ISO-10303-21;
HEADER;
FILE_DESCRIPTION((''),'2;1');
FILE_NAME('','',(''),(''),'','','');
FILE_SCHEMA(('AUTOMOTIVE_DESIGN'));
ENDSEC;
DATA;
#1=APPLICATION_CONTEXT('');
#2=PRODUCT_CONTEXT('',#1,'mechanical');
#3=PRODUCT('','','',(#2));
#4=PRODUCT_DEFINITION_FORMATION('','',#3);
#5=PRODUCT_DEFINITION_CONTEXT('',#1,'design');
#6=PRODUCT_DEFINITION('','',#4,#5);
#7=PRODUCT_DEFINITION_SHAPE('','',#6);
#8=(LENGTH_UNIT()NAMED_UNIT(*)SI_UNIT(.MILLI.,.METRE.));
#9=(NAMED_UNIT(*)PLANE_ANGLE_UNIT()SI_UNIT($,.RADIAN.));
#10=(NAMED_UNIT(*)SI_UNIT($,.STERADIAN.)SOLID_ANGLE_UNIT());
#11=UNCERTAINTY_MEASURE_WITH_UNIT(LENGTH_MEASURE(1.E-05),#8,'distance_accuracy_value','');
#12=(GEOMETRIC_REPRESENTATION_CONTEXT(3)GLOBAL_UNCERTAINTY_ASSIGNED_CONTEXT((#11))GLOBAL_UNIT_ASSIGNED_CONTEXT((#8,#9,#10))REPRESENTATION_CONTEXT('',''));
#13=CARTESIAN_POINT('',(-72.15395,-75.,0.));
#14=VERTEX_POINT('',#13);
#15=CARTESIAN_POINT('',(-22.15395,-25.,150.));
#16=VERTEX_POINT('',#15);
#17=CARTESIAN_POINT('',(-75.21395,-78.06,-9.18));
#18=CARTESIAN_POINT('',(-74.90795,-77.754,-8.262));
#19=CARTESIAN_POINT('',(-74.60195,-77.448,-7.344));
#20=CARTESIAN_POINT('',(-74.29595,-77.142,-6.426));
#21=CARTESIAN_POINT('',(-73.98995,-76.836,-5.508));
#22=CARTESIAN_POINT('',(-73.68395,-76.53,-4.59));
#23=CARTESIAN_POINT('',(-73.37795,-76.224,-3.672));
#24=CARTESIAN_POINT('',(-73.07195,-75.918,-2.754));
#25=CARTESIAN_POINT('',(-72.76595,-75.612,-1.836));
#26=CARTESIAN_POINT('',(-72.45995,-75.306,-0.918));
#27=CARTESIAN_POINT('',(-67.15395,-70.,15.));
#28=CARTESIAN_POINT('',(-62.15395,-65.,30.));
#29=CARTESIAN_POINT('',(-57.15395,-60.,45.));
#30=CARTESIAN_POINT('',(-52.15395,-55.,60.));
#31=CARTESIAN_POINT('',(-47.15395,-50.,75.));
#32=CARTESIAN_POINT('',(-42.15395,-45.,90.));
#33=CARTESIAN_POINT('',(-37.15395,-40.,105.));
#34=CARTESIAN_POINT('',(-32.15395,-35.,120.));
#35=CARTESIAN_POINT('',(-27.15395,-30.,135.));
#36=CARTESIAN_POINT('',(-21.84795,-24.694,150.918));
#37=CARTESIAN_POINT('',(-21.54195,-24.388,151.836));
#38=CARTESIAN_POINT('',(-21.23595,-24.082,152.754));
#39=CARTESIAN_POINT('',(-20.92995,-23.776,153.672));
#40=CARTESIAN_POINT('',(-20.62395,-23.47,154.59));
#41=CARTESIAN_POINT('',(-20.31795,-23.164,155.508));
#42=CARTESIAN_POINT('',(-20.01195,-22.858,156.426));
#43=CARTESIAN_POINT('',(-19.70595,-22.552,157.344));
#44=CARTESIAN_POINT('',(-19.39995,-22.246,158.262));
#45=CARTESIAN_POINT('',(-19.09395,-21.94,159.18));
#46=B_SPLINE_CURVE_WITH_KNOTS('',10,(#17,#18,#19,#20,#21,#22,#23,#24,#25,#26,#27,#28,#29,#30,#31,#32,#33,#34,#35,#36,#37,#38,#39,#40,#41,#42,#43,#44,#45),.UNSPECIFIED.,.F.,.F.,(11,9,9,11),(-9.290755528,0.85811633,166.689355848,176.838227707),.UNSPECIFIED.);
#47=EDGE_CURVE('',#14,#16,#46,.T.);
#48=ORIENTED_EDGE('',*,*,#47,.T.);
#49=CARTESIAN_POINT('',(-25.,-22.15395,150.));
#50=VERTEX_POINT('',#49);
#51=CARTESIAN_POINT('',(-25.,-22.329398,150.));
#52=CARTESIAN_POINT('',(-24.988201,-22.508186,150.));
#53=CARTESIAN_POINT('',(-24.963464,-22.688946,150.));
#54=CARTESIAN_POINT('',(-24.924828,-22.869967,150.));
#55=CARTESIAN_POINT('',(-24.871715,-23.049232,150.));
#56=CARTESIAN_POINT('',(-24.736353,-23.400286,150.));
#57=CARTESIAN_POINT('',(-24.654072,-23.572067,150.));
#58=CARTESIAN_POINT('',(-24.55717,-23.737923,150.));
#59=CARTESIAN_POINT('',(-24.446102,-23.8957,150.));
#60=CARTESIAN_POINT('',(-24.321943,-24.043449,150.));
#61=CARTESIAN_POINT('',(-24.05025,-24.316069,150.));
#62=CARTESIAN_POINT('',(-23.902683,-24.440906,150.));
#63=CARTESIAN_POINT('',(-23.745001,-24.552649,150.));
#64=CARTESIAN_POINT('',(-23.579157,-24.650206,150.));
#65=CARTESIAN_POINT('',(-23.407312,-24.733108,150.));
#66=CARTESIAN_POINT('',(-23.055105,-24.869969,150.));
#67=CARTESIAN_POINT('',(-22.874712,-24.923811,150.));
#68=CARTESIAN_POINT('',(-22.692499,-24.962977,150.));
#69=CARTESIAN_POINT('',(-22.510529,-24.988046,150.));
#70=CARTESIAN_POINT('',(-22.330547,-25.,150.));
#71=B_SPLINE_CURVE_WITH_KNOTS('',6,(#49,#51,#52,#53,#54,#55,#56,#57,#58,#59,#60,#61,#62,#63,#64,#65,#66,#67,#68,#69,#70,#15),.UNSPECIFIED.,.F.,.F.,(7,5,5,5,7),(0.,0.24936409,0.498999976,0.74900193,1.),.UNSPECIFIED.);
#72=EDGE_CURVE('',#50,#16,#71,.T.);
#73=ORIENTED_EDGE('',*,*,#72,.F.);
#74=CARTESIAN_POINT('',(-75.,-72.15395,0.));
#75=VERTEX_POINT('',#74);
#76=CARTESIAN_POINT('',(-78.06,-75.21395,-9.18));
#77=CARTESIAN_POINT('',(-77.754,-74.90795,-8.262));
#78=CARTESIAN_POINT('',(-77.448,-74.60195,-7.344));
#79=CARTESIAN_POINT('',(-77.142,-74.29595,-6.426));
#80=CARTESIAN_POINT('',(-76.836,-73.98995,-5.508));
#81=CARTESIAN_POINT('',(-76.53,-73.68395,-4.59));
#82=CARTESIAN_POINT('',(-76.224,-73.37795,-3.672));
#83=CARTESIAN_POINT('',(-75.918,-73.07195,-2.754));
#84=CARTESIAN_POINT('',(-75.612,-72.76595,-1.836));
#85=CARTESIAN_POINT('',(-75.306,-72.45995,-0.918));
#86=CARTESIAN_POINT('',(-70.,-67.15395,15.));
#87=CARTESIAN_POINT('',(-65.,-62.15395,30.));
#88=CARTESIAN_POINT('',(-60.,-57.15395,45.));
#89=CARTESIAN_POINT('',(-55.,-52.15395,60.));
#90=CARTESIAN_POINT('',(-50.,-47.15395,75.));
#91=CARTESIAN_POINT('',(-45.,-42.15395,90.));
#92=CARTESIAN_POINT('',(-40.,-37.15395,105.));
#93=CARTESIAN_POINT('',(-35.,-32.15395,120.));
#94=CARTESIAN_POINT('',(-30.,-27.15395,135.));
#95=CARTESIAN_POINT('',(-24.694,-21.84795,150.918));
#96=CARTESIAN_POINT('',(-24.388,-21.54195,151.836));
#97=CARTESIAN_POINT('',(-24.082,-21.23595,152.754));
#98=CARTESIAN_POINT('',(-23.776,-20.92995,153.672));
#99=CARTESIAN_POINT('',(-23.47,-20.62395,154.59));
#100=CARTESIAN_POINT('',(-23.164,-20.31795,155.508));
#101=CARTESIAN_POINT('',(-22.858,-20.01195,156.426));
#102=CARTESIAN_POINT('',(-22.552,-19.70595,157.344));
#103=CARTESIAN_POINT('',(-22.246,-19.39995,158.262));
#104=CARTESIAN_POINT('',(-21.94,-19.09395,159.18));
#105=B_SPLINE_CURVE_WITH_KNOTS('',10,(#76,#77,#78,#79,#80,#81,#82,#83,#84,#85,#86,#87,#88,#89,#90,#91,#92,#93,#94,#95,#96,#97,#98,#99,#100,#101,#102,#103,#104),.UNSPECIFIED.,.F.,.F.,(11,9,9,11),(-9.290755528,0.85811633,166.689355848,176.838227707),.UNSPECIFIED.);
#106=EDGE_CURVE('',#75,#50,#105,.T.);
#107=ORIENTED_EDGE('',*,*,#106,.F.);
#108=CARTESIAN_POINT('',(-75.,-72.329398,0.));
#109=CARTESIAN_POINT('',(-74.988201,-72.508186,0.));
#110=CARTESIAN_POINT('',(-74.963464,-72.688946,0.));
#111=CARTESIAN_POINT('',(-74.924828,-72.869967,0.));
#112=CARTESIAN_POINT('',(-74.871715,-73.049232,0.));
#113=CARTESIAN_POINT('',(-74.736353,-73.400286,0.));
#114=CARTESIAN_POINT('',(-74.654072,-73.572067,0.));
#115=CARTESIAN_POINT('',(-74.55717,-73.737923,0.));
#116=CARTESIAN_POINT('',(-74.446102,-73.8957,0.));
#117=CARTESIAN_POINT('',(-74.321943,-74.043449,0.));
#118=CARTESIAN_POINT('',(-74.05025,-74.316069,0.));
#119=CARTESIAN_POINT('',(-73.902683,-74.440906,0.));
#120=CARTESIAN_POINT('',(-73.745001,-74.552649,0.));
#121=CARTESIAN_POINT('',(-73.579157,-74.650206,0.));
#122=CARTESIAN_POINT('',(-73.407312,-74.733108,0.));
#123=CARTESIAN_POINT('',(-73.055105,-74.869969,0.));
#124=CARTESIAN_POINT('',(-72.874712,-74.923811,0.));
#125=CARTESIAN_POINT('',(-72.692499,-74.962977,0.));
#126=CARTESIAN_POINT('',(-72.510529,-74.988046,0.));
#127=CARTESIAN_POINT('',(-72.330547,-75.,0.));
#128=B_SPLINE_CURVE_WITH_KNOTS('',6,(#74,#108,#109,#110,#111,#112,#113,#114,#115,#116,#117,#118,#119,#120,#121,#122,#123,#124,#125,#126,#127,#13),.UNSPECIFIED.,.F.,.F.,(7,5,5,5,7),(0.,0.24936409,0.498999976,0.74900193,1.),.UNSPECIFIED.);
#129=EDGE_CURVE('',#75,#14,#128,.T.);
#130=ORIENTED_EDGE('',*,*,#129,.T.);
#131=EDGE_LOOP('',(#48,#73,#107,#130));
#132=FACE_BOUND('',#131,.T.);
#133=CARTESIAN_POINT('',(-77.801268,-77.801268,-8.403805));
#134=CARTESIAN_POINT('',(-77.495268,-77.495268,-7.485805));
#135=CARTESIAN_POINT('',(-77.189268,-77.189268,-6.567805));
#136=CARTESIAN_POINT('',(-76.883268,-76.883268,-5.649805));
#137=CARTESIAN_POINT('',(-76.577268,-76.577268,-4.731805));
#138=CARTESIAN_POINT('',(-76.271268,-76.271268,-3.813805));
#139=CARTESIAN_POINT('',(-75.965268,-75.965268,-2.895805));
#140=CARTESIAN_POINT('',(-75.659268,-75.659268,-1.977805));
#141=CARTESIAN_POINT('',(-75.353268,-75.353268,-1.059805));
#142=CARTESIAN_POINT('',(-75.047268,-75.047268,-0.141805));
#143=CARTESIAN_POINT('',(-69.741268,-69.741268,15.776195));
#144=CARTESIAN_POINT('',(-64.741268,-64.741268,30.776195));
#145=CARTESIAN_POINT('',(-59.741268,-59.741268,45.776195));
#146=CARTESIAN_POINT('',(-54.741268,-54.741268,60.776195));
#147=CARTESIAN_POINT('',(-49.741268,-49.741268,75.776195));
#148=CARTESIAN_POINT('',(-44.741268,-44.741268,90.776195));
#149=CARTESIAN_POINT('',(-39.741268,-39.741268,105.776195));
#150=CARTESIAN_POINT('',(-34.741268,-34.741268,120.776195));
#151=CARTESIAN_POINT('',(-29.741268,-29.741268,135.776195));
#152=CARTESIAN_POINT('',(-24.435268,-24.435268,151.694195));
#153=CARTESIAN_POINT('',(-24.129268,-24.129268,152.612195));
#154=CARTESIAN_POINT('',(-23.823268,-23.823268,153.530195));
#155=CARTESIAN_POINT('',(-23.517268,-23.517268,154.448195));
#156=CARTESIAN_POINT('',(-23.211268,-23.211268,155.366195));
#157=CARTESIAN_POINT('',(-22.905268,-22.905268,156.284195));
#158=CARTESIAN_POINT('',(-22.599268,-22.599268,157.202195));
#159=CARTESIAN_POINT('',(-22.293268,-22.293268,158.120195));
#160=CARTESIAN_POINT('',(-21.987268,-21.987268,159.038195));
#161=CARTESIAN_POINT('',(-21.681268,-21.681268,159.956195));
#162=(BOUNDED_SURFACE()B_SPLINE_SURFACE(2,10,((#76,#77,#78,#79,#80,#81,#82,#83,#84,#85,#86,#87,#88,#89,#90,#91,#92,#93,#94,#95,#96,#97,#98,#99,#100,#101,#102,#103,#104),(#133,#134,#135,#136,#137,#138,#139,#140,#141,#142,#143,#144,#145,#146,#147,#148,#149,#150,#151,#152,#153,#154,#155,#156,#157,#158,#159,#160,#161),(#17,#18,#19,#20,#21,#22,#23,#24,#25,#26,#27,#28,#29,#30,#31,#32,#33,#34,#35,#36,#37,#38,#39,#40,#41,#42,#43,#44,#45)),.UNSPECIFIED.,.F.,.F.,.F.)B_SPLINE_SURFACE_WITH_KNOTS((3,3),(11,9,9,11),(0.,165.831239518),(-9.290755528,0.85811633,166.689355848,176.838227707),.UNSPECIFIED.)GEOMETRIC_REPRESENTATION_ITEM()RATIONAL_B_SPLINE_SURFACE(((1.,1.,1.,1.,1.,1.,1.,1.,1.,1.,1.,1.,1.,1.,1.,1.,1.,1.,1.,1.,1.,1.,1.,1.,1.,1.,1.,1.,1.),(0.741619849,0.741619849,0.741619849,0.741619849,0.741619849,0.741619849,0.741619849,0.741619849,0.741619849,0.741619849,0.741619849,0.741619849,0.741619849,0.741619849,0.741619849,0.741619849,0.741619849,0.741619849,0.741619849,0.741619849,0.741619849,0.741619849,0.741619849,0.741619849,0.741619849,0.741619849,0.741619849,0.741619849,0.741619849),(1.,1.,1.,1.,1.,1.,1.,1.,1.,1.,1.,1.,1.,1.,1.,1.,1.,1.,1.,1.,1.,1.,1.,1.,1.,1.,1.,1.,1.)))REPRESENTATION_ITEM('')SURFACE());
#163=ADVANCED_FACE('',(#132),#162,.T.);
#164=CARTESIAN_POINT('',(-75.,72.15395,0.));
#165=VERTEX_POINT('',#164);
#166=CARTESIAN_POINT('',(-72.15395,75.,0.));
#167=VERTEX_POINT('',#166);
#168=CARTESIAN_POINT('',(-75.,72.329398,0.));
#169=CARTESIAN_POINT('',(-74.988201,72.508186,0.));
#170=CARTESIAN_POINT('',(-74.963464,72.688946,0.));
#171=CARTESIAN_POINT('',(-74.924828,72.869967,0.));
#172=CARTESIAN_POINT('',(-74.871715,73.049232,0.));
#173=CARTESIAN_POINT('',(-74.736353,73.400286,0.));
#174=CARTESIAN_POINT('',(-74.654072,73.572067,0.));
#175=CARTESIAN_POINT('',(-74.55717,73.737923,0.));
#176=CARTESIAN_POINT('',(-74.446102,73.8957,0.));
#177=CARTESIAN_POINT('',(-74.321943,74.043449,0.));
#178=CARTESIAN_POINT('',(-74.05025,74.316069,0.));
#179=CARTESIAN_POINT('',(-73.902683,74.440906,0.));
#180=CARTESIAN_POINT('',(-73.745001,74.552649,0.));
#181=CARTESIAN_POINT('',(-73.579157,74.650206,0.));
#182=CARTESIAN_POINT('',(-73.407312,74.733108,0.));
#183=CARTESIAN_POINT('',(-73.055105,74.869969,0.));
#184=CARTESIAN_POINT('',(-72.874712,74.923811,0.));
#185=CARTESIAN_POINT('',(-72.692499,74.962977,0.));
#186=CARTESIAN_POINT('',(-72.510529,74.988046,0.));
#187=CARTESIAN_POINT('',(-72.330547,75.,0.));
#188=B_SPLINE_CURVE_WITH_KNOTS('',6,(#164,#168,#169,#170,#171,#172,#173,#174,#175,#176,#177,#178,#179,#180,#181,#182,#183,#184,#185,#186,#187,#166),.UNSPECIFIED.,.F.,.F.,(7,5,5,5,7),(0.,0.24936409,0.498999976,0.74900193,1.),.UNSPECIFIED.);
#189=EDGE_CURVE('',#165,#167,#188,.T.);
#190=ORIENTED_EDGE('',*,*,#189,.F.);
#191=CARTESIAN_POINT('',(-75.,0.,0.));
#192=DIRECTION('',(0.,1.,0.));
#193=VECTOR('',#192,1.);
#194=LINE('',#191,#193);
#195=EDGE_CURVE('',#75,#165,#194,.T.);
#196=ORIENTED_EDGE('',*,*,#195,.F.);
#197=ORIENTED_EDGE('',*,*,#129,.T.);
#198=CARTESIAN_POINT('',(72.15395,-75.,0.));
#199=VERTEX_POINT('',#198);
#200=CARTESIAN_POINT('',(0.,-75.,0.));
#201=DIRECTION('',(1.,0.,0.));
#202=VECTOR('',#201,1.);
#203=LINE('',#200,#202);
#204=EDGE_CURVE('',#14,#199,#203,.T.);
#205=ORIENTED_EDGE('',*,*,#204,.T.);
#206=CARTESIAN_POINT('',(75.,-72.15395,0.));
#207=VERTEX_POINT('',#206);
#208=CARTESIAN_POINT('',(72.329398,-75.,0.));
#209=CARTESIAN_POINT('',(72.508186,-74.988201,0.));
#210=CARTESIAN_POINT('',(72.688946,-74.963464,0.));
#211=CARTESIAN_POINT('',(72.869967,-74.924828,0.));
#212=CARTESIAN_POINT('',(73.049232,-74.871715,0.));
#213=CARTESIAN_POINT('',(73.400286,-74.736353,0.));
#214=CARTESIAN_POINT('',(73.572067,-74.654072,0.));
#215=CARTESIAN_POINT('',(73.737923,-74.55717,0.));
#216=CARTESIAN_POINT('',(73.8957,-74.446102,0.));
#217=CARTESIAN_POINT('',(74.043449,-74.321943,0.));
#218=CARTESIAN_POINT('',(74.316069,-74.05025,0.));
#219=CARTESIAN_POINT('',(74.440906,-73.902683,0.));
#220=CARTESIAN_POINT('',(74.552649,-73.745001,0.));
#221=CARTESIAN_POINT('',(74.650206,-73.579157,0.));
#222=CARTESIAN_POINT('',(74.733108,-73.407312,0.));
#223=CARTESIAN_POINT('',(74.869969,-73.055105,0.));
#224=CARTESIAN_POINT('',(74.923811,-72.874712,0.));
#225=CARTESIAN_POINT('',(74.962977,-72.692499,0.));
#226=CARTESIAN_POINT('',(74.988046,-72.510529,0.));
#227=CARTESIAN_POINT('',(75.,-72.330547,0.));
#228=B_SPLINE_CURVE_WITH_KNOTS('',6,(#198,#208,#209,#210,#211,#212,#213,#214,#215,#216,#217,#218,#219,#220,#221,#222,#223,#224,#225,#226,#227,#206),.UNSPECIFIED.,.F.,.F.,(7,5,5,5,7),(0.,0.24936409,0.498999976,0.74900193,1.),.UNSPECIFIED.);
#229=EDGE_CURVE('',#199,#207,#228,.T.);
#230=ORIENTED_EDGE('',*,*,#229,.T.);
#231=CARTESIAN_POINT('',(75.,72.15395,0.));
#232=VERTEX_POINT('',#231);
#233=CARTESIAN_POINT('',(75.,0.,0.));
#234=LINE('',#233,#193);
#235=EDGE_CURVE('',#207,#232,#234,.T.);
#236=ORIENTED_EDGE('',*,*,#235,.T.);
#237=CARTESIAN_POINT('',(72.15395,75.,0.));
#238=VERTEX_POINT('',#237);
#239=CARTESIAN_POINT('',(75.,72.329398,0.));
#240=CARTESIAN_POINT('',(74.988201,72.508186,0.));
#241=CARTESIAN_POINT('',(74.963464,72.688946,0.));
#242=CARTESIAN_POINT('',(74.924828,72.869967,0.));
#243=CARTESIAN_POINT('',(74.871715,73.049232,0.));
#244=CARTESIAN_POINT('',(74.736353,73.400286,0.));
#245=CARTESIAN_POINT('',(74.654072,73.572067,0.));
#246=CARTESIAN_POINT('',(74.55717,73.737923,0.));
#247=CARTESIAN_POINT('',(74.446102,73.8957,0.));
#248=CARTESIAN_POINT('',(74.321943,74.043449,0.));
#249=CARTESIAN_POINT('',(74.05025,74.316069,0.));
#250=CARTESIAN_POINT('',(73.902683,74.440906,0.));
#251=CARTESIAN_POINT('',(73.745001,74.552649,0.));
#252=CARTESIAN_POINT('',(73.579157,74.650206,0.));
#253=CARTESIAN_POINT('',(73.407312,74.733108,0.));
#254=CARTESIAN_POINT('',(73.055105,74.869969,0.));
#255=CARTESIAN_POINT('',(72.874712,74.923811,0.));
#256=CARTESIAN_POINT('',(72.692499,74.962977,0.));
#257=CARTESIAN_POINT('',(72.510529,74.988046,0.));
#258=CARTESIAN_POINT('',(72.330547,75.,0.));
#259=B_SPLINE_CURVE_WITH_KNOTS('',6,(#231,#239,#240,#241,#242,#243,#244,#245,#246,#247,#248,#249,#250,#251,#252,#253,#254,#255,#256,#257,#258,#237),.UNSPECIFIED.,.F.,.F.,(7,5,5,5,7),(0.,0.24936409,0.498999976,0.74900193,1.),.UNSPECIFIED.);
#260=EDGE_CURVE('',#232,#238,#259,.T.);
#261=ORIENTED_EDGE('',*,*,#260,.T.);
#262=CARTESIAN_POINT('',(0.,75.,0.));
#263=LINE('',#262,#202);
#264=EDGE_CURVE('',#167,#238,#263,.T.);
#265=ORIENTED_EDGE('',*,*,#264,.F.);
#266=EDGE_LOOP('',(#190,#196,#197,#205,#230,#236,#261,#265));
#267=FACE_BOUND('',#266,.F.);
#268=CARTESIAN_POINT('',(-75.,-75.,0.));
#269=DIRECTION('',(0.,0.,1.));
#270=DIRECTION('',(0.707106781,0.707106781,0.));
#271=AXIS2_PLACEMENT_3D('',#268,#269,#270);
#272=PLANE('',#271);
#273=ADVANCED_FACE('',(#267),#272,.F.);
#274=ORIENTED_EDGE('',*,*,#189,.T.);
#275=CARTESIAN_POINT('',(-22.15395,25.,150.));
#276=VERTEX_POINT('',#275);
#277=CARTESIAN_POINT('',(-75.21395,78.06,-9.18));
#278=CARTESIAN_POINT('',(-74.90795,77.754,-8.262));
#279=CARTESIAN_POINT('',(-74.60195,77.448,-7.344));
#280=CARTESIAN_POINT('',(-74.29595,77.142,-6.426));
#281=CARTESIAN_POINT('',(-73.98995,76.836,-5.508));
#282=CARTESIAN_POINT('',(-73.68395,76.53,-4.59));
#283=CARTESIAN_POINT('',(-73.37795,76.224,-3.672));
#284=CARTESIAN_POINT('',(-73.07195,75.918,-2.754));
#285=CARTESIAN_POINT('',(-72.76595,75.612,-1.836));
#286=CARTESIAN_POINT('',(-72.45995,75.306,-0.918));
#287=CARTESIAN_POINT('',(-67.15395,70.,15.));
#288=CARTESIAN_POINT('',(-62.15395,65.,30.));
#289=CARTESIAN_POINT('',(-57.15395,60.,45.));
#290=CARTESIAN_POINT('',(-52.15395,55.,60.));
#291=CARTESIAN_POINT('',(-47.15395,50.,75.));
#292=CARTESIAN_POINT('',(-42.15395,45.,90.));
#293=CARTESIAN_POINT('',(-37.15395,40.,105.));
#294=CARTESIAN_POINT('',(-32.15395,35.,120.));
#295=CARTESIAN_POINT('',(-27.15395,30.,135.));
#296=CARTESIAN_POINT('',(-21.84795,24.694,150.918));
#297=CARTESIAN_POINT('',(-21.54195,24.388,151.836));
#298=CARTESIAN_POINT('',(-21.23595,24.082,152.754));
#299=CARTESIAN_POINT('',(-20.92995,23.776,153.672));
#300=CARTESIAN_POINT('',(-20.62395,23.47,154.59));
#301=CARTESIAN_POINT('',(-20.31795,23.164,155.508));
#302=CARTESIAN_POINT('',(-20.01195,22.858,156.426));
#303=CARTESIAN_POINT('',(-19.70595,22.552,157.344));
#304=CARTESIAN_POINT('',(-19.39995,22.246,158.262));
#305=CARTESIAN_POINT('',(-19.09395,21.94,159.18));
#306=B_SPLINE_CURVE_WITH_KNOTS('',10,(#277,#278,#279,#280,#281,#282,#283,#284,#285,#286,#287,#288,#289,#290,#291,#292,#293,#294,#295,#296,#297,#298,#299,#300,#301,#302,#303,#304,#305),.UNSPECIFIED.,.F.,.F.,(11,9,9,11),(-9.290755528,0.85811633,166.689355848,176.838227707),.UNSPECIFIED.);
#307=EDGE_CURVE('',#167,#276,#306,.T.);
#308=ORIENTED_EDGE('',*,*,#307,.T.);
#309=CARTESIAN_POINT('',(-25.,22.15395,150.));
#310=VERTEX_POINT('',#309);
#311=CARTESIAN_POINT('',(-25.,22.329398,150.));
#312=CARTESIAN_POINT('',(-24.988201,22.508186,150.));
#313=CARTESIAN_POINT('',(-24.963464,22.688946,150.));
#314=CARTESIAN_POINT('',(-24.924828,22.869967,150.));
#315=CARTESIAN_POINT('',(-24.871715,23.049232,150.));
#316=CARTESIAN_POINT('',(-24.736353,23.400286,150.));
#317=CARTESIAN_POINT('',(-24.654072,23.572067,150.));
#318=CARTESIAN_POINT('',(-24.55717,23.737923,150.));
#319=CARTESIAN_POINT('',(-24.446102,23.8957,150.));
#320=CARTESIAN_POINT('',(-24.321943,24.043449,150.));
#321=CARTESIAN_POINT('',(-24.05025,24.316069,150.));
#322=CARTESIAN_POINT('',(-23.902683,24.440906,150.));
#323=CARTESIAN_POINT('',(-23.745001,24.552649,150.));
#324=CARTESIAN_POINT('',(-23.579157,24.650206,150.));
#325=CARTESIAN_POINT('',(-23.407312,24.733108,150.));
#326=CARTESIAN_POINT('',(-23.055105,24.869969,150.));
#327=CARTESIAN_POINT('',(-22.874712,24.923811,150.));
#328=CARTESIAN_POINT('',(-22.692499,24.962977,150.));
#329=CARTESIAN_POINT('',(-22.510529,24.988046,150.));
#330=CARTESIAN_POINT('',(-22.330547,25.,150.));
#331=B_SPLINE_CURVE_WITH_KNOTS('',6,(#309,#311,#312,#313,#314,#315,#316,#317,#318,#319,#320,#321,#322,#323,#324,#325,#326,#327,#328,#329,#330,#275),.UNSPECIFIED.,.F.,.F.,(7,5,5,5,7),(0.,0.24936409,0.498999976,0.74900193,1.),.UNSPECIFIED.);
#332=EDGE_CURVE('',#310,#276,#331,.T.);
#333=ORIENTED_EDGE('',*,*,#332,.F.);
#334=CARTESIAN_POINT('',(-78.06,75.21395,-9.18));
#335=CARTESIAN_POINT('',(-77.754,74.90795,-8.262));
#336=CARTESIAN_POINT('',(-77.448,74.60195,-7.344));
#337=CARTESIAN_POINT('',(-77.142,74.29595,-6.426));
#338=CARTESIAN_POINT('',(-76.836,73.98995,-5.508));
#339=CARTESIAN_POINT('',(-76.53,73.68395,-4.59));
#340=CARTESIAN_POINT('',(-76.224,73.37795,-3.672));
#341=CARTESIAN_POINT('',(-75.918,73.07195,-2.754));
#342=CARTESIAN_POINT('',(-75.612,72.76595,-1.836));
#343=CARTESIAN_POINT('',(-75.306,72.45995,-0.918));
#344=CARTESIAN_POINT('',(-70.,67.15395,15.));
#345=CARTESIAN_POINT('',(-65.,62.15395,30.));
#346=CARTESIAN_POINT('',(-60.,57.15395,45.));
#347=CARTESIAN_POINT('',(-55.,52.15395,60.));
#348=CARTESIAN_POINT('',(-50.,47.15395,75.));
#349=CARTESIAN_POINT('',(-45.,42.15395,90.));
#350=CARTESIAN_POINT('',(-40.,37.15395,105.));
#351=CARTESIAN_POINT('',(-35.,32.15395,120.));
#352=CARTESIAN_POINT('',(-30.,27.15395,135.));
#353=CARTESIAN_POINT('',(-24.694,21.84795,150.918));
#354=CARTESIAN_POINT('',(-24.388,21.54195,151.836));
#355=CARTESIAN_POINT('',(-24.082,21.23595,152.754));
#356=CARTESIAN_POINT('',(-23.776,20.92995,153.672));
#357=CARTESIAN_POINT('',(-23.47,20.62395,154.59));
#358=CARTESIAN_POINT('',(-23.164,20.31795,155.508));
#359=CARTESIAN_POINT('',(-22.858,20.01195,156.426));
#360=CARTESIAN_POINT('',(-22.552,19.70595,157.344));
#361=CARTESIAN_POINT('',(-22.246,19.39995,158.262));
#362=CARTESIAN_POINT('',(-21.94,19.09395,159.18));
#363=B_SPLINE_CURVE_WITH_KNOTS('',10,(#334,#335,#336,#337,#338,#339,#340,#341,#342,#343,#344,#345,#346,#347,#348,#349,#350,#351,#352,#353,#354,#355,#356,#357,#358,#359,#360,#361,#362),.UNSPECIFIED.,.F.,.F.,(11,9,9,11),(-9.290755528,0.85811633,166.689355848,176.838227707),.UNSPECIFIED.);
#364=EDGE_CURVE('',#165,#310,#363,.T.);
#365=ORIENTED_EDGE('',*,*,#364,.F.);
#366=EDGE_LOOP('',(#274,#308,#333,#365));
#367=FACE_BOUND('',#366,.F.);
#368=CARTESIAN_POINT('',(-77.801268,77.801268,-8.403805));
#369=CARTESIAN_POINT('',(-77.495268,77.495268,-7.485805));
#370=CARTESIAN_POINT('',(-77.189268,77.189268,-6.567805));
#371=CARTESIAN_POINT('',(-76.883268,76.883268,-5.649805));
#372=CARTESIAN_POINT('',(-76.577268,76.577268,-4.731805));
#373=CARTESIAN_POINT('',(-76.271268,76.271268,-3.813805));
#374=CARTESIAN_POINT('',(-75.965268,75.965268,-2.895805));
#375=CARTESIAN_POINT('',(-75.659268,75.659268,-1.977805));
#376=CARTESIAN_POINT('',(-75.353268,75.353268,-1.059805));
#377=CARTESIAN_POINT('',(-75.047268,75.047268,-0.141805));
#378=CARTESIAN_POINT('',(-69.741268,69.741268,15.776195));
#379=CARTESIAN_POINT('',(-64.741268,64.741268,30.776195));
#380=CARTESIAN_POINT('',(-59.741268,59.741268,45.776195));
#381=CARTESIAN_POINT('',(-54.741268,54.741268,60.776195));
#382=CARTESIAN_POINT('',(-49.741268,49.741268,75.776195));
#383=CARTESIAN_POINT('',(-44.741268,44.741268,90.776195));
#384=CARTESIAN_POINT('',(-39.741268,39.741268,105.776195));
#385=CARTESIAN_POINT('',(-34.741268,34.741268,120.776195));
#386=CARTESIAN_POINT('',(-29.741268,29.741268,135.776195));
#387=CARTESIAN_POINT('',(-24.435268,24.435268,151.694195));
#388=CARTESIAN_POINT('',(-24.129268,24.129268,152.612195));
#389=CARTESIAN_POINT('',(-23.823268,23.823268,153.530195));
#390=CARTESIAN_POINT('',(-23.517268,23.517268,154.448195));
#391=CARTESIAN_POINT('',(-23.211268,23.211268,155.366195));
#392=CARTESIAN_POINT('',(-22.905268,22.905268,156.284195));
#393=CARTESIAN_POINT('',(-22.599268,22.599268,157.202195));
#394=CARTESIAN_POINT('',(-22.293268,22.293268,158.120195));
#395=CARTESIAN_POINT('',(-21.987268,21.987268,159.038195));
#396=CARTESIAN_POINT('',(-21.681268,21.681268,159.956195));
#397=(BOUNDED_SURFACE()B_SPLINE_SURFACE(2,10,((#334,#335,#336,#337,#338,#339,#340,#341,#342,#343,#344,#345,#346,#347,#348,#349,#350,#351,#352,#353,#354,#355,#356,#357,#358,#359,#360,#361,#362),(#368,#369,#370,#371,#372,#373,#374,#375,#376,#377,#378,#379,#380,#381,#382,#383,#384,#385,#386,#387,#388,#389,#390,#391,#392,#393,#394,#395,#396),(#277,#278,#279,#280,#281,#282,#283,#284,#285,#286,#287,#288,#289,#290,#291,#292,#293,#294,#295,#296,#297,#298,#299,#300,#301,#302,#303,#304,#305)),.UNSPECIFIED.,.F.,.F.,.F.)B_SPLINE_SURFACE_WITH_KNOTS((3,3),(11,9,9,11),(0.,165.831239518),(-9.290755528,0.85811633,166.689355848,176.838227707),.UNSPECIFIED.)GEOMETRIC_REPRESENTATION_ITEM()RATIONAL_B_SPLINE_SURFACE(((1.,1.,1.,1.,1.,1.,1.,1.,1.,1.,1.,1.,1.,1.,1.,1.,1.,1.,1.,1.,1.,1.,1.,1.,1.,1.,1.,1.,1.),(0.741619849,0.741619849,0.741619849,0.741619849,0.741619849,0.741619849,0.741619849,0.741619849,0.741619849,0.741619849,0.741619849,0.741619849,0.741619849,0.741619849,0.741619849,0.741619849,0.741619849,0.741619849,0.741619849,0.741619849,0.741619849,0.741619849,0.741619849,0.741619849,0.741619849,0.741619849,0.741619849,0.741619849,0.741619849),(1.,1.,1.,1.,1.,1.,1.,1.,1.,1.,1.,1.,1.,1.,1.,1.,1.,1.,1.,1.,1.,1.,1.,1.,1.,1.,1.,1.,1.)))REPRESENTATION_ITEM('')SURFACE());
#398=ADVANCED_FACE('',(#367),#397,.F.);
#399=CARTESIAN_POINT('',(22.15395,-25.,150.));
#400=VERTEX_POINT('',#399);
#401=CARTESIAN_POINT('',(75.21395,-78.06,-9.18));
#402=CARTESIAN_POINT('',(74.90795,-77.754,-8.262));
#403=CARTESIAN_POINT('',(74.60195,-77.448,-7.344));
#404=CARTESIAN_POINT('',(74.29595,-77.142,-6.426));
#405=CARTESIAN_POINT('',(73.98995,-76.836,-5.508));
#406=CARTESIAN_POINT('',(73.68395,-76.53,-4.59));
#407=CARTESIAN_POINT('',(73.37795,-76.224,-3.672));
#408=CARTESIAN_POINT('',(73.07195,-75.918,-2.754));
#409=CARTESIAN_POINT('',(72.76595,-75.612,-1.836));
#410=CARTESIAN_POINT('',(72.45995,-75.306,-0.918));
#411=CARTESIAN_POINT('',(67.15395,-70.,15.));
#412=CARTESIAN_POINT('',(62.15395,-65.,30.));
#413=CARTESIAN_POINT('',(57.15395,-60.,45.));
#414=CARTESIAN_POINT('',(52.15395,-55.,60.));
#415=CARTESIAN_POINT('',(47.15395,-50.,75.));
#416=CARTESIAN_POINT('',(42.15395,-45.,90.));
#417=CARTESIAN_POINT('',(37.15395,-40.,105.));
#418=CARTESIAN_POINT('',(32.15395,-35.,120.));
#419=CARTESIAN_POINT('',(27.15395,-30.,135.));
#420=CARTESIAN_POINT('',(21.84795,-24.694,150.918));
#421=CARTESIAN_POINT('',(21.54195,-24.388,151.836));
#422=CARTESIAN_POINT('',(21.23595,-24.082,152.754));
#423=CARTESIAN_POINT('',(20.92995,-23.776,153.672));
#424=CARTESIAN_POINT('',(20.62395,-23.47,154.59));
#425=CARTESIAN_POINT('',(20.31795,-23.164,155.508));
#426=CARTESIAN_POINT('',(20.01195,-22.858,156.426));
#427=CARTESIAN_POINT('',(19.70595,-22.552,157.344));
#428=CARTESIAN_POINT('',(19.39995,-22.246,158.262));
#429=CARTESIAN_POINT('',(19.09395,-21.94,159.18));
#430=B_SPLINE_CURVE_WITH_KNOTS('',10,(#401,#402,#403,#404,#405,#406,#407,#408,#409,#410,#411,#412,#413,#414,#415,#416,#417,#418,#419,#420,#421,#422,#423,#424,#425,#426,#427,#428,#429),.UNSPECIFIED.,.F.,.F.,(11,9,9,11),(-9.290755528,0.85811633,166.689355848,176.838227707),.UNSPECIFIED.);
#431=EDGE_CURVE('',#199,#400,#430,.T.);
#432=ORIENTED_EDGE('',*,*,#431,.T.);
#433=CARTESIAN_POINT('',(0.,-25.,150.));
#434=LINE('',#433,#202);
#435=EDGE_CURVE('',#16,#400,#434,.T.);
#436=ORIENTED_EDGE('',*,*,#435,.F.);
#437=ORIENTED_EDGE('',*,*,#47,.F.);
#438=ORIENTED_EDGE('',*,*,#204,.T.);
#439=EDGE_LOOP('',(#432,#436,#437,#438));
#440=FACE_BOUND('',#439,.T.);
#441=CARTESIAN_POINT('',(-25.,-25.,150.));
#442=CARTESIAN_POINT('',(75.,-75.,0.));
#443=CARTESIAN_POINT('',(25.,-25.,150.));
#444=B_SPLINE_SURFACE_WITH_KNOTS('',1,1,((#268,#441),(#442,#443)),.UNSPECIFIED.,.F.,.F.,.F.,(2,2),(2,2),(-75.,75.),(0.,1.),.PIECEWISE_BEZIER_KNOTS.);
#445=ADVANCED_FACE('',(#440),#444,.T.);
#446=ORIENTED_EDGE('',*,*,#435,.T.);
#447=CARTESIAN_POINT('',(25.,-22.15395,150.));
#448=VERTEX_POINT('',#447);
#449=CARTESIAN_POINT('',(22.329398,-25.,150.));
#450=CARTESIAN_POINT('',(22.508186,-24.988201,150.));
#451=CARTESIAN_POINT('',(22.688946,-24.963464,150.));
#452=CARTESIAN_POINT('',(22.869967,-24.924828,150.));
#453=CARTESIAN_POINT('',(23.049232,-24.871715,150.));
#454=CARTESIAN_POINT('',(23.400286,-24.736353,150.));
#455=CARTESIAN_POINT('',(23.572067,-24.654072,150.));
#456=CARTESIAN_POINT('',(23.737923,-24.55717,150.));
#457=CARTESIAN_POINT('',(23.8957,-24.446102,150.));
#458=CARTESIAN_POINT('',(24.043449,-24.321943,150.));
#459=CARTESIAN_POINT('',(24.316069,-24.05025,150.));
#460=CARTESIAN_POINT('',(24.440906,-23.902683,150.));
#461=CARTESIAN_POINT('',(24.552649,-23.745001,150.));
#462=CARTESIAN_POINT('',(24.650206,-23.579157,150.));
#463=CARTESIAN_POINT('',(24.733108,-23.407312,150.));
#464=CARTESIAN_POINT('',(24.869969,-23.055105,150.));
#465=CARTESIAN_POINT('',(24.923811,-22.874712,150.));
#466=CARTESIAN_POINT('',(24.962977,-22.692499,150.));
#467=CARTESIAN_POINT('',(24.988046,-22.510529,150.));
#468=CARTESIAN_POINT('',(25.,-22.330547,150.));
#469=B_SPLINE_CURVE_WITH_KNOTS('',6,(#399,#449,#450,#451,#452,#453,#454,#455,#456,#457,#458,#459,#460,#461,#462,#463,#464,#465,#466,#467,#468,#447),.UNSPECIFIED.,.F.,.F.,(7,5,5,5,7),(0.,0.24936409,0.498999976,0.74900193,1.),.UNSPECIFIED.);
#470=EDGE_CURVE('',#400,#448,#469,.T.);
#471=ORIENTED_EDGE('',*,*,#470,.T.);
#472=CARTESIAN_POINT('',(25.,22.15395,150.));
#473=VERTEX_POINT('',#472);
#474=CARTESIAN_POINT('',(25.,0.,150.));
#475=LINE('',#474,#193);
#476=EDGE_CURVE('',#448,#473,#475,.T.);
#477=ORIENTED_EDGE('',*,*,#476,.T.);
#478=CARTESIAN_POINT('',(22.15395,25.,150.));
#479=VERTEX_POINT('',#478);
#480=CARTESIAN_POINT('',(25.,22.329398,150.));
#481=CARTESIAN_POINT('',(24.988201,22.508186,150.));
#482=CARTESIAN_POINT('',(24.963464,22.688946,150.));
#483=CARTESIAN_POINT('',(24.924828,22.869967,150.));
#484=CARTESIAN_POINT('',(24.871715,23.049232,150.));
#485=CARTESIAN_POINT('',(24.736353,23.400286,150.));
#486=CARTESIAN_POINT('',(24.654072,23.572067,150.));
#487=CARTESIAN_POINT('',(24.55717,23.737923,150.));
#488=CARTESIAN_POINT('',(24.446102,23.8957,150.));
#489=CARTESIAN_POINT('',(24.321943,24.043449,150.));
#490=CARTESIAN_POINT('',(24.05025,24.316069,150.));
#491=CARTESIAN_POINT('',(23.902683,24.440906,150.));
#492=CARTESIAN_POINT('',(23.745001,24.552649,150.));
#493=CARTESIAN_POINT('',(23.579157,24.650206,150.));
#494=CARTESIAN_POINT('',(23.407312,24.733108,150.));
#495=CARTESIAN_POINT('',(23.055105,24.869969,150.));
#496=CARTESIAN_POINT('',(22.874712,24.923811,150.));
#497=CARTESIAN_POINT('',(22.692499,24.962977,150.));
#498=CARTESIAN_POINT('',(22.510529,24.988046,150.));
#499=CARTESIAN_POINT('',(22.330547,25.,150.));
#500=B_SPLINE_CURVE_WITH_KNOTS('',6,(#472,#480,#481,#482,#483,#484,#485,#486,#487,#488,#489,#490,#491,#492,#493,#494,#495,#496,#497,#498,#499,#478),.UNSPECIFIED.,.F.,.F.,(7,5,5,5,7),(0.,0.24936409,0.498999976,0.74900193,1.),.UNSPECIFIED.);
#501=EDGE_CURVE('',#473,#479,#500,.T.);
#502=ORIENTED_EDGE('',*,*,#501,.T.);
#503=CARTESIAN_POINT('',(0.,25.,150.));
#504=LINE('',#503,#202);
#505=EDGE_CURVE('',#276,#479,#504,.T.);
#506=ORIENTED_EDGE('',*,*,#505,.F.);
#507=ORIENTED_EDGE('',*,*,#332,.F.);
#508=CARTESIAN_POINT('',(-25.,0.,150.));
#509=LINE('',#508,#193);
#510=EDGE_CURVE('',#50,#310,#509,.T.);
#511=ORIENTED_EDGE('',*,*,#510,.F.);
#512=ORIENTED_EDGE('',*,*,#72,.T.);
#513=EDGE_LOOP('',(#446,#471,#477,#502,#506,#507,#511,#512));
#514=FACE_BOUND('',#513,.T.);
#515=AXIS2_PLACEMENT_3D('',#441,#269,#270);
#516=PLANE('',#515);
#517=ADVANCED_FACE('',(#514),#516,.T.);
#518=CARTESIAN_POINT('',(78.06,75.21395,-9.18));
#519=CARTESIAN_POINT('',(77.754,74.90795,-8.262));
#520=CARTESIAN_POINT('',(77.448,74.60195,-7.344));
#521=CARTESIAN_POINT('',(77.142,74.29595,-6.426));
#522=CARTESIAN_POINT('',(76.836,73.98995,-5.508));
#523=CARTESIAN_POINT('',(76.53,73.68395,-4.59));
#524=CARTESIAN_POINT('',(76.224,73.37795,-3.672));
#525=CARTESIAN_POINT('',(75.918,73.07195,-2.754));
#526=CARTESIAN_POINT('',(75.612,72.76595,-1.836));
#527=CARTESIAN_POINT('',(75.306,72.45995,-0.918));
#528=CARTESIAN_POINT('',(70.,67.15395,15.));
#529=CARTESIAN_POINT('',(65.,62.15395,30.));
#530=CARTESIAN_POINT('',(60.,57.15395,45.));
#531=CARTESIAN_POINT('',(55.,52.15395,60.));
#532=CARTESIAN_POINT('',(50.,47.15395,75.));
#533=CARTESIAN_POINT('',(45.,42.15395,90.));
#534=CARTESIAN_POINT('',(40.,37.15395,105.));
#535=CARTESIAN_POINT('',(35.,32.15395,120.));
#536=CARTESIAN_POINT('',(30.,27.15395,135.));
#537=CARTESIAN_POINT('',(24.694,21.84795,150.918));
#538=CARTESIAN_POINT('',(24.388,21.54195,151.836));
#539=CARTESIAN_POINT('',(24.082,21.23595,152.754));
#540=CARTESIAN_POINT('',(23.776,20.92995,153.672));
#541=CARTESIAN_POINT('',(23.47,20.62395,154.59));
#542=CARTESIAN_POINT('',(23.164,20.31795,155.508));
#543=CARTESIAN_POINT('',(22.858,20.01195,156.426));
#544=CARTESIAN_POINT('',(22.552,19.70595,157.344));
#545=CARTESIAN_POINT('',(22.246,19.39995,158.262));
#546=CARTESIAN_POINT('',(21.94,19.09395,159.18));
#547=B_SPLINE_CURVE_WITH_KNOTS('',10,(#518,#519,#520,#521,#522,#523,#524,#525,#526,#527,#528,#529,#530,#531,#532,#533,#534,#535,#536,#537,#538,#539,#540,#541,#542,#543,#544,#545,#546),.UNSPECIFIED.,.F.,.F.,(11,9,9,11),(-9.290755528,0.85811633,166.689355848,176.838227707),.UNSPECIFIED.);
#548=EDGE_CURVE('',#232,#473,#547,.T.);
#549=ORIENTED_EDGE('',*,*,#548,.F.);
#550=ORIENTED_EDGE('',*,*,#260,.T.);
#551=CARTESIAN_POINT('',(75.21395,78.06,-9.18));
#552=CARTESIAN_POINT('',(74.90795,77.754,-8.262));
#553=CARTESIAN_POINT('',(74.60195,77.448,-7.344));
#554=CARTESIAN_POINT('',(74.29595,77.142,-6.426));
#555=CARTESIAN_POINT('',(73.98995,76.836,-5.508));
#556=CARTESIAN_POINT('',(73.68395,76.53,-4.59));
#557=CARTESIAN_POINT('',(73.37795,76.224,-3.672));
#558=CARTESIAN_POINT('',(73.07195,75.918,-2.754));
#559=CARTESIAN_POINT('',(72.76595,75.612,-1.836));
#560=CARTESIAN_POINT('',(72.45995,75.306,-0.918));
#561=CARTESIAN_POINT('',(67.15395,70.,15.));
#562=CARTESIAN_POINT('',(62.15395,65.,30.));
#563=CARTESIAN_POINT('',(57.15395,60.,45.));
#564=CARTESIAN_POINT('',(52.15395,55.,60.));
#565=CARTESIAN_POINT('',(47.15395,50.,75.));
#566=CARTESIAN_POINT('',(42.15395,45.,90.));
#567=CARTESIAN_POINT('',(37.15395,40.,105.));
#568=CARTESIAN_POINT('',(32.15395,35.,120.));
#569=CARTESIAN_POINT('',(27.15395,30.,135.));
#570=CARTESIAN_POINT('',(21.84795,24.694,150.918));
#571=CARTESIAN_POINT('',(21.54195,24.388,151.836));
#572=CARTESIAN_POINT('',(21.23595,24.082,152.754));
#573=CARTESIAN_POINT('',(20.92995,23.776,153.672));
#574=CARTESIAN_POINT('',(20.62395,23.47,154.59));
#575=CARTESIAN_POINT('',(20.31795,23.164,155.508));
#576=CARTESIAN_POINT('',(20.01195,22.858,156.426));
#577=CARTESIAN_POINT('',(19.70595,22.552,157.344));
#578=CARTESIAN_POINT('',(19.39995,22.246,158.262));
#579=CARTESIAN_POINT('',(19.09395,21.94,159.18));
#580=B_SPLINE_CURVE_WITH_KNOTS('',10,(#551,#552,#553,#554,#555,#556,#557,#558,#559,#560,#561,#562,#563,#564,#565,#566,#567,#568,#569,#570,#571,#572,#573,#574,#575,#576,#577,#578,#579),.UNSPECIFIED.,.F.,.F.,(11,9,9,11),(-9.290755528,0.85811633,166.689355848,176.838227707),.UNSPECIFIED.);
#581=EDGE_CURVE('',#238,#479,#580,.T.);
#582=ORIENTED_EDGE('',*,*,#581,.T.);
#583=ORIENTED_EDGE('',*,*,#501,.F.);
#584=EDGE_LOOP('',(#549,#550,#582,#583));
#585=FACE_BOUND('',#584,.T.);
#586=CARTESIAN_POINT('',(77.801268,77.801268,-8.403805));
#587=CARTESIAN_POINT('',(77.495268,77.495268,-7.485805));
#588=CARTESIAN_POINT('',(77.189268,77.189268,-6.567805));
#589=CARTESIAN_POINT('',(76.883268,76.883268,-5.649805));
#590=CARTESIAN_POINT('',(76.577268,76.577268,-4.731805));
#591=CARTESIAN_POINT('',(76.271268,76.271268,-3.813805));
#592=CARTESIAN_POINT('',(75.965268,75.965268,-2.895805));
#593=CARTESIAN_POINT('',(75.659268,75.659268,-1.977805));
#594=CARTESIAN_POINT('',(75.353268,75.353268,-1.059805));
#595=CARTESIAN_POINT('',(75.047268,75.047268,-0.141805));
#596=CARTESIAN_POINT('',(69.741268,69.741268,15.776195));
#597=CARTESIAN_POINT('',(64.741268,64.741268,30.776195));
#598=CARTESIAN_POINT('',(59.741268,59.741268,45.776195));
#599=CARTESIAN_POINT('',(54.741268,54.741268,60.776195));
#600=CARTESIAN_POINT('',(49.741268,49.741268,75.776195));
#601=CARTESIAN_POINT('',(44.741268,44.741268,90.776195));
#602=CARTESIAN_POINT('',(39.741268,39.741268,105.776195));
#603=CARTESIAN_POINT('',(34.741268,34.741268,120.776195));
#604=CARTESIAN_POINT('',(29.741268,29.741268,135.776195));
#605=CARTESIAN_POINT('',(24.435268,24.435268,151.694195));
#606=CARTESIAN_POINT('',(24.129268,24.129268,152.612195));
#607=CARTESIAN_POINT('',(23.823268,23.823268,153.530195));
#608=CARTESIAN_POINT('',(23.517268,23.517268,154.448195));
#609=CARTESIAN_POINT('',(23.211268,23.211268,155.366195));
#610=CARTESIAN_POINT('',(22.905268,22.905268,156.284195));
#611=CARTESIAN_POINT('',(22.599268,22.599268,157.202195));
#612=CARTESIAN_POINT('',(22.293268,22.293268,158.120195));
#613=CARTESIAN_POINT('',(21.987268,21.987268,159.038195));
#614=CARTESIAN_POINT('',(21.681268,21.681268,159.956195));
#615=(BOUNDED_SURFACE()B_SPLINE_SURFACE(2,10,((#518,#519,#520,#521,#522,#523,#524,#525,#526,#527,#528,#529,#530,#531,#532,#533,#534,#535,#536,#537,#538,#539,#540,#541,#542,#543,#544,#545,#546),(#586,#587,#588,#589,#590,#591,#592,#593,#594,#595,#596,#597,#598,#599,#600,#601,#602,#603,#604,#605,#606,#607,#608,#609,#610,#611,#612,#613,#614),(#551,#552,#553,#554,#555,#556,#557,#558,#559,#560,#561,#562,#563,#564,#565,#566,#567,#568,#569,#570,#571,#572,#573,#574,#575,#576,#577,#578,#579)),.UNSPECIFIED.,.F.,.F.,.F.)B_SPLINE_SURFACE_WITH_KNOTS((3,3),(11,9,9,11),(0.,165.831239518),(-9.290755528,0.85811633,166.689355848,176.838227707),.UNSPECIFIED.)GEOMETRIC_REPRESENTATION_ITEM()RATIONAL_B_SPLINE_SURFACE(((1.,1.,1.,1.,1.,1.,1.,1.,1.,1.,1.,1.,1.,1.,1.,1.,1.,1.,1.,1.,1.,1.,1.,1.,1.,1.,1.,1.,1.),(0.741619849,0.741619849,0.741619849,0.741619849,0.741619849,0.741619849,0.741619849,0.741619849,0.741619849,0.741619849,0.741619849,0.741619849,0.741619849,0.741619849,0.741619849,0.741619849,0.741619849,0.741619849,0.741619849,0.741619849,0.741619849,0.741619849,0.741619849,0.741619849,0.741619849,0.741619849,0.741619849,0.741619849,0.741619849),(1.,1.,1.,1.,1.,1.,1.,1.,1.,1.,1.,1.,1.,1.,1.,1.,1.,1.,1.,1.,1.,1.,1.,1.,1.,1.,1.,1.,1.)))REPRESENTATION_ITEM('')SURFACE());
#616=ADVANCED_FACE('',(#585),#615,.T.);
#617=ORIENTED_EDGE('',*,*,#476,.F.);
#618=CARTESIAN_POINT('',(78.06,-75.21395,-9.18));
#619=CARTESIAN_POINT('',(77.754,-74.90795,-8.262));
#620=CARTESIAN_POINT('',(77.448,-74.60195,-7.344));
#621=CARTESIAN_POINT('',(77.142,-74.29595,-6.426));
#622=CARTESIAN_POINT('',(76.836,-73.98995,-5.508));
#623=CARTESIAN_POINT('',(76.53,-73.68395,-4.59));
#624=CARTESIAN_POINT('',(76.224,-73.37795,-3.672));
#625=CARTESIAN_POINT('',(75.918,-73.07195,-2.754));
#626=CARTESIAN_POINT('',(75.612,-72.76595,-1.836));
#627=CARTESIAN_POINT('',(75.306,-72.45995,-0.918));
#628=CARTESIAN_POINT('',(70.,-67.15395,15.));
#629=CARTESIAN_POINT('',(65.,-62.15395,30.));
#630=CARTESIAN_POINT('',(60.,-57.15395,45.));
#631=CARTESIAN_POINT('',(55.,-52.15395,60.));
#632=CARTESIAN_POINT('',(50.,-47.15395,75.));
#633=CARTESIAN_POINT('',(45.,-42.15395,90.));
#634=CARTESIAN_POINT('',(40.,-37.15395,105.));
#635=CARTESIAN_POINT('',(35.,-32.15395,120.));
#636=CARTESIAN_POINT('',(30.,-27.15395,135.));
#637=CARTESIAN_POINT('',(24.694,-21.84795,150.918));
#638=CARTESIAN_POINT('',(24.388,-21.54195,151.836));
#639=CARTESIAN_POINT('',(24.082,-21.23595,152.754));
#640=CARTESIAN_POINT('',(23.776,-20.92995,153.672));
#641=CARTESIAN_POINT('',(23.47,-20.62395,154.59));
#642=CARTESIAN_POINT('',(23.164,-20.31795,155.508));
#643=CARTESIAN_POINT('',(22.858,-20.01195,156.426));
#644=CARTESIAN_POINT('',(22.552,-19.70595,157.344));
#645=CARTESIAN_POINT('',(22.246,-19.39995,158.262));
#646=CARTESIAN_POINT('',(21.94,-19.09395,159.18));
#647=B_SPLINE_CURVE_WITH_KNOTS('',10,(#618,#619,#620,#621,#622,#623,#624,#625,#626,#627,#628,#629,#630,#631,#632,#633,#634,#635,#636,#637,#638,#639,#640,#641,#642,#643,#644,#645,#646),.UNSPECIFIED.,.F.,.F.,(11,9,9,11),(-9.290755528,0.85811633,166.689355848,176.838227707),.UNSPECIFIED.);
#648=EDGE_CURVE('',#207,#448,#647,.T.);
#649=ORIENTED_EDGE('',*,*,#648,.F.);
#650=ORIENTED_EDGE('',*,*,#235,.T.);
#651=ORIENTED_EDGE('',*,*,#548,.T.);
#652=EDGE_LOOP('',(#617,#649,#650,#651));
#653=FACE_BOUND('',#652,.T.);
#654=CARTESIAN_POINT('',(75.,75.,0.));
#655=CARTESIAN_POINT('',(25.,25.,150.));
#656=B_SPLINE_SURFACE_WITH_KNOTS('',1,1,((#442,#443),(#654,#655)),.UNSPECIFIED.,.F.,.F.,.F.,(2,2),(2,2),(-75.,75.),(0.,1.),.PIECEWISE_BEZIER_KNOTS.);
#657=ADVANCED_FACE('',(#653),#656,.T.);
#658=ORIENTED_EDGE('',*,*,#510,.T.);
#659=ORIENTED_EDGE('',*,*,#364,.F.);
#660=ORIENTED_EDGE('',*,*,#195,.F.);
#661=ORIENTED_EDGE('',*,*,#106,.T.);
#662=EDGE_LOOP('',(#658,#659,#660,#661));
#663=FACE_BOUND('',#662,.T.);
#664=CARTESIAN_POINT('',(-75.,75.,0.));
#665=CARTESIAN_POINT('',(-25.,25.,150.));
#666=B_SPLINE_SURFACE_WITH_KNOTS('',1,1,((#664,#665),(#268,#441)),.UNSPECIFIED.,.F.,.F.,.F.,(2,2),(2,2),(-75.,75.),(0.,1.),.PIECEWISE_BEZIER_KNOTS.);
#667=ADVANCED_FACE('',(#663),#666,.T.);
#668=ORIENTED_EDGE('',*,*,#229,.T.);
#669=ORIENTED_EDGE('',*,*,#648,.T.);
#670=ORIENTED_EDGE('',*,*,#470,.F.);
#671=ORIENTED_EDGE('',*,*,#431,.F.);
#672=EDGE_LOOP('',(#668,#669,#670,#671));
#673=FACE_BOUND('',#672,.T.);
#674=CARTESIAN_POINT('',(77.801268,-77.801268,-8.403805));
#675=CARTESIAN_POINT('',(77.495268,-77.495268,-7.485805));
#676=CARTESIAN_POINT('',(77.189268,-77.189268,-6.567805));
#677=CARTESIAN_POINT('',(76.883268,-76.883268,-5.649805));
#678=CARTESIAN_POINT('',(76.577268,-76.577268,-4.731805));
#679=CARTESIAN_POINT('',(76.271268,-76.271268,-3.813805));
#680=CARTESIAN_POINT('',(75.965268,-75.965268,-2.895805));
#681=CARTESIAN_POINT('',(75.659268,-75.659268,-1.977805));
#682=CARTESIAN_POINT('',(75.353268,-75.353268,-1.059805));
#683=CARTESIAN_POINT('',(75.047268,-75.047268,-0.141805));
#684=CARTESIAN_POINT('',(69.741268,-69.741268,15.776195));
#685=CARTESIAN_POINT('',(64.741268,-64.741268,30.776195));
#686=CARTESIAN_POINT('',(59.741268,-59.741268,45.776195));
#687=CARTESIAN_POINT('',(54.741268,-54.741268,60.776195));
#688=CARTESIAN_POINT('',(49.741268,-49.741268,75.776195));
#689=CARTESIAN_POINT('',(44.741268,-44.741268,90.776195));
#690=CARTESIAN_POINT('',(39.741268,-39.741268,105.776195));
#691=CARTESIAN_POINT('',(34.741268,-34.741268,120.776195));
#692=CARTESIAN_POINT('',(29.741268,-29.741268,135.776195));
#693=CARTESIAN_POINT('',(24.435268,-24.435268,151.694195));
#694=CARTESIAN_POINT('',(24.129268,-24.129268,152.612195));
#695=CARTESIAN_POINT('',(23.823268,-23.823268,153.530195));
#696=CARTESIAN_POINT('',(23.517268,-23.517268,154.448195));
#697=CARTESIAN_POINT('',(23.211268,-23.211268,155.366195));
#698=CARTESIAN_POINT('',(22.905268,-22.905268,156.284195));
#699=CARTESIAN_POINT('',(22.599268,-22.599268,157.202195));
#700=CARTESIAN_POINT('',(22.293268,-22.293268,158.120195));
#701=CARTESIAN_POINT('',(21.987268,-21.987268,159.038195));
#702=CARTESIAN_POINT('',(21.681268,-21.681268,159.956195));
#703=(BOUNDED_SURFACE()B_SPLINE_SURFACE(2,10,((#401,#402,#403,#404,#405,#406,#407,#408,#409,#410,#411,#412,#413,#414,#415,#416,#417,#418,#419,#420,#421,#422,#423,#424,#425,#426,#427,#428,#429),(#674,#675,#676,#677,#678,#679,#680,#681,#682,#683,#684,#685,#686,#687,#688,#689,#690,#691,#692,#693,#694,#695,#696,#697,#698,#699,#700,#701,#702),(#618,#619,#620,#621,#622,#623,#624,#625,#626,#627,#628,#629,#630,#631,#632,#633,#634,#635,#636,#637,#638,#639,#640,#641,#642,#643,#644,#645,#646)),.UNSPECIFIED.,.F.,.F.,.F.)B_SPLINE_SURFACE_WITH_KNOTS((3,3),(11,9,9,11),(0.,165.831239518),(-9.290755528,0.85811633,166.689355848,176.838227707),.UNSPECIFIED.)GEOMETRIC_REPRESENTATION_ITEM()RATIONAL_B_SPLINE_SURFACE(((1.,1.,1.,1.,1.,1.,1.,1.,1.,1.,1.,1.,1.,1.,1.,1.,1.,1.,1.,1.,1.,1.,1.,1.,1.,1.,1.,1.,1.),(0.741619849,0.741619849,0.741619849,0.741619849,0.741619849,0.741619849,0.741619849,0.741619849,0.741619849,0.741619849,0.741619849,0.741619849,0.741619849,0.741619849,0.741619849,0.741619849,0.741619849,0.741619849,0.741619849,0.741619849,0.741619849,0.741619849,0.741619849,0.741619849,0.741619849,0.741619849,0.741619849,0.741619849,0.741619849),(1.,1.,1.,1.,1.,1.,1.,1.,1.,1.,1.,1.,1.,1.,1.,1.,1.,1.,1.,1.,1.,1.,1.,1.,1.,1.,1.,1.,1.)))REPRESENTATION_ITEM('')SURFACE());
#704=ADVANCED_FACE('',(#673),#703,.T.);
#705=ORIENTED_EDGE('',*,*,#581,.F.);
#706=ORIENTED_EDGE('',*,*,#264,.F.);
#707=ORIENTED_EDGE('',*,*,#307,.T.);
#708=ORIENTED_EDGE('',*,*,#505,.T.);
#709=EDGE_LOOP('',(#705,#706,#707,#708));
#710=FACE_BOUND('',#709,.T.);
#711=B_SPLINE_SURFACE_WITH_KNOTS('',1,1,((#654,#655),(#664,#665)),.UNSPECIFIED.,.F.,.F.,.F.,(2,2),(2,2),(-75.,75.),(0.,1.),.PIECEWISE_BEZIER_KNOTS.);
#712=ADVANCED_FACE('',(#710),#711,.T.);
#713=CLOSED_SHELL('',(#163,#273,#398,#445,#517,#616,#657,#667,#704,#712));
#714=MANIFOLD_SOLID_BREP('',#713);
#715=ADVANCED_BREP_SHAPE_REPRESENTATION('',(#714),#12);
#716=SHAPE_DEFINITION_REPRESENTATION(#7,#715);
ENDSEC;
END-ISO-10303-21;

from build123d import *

# Parameters (mm, degrees)
F0_W = 150
F0_H = 150
F2_W = 50
F2_H = 50
F4_R = 3


with BuildPart() as f3:
    # F0 (on Top) → F3 section 0
    with BuildSketch(Plane.XY):
        Rectangle(F0_W, F0_H)
    # F2 (on offset) → F3 section 1
    with BuildSketch(Plane.XY.offset(150)):
        Rectangle(F2_W, F2_H)
    loft()

    # F4
    f4_edges = [f3.edges().sort_by_distance(p)[0] for p in [
        (50, -50, 75),
        (-50, -50, 75),
        (50, 50, 75),
        (-50, 50, 75),
    ]]
    fillet(f4_edges, radius=F4_R)


solid = f3.part
